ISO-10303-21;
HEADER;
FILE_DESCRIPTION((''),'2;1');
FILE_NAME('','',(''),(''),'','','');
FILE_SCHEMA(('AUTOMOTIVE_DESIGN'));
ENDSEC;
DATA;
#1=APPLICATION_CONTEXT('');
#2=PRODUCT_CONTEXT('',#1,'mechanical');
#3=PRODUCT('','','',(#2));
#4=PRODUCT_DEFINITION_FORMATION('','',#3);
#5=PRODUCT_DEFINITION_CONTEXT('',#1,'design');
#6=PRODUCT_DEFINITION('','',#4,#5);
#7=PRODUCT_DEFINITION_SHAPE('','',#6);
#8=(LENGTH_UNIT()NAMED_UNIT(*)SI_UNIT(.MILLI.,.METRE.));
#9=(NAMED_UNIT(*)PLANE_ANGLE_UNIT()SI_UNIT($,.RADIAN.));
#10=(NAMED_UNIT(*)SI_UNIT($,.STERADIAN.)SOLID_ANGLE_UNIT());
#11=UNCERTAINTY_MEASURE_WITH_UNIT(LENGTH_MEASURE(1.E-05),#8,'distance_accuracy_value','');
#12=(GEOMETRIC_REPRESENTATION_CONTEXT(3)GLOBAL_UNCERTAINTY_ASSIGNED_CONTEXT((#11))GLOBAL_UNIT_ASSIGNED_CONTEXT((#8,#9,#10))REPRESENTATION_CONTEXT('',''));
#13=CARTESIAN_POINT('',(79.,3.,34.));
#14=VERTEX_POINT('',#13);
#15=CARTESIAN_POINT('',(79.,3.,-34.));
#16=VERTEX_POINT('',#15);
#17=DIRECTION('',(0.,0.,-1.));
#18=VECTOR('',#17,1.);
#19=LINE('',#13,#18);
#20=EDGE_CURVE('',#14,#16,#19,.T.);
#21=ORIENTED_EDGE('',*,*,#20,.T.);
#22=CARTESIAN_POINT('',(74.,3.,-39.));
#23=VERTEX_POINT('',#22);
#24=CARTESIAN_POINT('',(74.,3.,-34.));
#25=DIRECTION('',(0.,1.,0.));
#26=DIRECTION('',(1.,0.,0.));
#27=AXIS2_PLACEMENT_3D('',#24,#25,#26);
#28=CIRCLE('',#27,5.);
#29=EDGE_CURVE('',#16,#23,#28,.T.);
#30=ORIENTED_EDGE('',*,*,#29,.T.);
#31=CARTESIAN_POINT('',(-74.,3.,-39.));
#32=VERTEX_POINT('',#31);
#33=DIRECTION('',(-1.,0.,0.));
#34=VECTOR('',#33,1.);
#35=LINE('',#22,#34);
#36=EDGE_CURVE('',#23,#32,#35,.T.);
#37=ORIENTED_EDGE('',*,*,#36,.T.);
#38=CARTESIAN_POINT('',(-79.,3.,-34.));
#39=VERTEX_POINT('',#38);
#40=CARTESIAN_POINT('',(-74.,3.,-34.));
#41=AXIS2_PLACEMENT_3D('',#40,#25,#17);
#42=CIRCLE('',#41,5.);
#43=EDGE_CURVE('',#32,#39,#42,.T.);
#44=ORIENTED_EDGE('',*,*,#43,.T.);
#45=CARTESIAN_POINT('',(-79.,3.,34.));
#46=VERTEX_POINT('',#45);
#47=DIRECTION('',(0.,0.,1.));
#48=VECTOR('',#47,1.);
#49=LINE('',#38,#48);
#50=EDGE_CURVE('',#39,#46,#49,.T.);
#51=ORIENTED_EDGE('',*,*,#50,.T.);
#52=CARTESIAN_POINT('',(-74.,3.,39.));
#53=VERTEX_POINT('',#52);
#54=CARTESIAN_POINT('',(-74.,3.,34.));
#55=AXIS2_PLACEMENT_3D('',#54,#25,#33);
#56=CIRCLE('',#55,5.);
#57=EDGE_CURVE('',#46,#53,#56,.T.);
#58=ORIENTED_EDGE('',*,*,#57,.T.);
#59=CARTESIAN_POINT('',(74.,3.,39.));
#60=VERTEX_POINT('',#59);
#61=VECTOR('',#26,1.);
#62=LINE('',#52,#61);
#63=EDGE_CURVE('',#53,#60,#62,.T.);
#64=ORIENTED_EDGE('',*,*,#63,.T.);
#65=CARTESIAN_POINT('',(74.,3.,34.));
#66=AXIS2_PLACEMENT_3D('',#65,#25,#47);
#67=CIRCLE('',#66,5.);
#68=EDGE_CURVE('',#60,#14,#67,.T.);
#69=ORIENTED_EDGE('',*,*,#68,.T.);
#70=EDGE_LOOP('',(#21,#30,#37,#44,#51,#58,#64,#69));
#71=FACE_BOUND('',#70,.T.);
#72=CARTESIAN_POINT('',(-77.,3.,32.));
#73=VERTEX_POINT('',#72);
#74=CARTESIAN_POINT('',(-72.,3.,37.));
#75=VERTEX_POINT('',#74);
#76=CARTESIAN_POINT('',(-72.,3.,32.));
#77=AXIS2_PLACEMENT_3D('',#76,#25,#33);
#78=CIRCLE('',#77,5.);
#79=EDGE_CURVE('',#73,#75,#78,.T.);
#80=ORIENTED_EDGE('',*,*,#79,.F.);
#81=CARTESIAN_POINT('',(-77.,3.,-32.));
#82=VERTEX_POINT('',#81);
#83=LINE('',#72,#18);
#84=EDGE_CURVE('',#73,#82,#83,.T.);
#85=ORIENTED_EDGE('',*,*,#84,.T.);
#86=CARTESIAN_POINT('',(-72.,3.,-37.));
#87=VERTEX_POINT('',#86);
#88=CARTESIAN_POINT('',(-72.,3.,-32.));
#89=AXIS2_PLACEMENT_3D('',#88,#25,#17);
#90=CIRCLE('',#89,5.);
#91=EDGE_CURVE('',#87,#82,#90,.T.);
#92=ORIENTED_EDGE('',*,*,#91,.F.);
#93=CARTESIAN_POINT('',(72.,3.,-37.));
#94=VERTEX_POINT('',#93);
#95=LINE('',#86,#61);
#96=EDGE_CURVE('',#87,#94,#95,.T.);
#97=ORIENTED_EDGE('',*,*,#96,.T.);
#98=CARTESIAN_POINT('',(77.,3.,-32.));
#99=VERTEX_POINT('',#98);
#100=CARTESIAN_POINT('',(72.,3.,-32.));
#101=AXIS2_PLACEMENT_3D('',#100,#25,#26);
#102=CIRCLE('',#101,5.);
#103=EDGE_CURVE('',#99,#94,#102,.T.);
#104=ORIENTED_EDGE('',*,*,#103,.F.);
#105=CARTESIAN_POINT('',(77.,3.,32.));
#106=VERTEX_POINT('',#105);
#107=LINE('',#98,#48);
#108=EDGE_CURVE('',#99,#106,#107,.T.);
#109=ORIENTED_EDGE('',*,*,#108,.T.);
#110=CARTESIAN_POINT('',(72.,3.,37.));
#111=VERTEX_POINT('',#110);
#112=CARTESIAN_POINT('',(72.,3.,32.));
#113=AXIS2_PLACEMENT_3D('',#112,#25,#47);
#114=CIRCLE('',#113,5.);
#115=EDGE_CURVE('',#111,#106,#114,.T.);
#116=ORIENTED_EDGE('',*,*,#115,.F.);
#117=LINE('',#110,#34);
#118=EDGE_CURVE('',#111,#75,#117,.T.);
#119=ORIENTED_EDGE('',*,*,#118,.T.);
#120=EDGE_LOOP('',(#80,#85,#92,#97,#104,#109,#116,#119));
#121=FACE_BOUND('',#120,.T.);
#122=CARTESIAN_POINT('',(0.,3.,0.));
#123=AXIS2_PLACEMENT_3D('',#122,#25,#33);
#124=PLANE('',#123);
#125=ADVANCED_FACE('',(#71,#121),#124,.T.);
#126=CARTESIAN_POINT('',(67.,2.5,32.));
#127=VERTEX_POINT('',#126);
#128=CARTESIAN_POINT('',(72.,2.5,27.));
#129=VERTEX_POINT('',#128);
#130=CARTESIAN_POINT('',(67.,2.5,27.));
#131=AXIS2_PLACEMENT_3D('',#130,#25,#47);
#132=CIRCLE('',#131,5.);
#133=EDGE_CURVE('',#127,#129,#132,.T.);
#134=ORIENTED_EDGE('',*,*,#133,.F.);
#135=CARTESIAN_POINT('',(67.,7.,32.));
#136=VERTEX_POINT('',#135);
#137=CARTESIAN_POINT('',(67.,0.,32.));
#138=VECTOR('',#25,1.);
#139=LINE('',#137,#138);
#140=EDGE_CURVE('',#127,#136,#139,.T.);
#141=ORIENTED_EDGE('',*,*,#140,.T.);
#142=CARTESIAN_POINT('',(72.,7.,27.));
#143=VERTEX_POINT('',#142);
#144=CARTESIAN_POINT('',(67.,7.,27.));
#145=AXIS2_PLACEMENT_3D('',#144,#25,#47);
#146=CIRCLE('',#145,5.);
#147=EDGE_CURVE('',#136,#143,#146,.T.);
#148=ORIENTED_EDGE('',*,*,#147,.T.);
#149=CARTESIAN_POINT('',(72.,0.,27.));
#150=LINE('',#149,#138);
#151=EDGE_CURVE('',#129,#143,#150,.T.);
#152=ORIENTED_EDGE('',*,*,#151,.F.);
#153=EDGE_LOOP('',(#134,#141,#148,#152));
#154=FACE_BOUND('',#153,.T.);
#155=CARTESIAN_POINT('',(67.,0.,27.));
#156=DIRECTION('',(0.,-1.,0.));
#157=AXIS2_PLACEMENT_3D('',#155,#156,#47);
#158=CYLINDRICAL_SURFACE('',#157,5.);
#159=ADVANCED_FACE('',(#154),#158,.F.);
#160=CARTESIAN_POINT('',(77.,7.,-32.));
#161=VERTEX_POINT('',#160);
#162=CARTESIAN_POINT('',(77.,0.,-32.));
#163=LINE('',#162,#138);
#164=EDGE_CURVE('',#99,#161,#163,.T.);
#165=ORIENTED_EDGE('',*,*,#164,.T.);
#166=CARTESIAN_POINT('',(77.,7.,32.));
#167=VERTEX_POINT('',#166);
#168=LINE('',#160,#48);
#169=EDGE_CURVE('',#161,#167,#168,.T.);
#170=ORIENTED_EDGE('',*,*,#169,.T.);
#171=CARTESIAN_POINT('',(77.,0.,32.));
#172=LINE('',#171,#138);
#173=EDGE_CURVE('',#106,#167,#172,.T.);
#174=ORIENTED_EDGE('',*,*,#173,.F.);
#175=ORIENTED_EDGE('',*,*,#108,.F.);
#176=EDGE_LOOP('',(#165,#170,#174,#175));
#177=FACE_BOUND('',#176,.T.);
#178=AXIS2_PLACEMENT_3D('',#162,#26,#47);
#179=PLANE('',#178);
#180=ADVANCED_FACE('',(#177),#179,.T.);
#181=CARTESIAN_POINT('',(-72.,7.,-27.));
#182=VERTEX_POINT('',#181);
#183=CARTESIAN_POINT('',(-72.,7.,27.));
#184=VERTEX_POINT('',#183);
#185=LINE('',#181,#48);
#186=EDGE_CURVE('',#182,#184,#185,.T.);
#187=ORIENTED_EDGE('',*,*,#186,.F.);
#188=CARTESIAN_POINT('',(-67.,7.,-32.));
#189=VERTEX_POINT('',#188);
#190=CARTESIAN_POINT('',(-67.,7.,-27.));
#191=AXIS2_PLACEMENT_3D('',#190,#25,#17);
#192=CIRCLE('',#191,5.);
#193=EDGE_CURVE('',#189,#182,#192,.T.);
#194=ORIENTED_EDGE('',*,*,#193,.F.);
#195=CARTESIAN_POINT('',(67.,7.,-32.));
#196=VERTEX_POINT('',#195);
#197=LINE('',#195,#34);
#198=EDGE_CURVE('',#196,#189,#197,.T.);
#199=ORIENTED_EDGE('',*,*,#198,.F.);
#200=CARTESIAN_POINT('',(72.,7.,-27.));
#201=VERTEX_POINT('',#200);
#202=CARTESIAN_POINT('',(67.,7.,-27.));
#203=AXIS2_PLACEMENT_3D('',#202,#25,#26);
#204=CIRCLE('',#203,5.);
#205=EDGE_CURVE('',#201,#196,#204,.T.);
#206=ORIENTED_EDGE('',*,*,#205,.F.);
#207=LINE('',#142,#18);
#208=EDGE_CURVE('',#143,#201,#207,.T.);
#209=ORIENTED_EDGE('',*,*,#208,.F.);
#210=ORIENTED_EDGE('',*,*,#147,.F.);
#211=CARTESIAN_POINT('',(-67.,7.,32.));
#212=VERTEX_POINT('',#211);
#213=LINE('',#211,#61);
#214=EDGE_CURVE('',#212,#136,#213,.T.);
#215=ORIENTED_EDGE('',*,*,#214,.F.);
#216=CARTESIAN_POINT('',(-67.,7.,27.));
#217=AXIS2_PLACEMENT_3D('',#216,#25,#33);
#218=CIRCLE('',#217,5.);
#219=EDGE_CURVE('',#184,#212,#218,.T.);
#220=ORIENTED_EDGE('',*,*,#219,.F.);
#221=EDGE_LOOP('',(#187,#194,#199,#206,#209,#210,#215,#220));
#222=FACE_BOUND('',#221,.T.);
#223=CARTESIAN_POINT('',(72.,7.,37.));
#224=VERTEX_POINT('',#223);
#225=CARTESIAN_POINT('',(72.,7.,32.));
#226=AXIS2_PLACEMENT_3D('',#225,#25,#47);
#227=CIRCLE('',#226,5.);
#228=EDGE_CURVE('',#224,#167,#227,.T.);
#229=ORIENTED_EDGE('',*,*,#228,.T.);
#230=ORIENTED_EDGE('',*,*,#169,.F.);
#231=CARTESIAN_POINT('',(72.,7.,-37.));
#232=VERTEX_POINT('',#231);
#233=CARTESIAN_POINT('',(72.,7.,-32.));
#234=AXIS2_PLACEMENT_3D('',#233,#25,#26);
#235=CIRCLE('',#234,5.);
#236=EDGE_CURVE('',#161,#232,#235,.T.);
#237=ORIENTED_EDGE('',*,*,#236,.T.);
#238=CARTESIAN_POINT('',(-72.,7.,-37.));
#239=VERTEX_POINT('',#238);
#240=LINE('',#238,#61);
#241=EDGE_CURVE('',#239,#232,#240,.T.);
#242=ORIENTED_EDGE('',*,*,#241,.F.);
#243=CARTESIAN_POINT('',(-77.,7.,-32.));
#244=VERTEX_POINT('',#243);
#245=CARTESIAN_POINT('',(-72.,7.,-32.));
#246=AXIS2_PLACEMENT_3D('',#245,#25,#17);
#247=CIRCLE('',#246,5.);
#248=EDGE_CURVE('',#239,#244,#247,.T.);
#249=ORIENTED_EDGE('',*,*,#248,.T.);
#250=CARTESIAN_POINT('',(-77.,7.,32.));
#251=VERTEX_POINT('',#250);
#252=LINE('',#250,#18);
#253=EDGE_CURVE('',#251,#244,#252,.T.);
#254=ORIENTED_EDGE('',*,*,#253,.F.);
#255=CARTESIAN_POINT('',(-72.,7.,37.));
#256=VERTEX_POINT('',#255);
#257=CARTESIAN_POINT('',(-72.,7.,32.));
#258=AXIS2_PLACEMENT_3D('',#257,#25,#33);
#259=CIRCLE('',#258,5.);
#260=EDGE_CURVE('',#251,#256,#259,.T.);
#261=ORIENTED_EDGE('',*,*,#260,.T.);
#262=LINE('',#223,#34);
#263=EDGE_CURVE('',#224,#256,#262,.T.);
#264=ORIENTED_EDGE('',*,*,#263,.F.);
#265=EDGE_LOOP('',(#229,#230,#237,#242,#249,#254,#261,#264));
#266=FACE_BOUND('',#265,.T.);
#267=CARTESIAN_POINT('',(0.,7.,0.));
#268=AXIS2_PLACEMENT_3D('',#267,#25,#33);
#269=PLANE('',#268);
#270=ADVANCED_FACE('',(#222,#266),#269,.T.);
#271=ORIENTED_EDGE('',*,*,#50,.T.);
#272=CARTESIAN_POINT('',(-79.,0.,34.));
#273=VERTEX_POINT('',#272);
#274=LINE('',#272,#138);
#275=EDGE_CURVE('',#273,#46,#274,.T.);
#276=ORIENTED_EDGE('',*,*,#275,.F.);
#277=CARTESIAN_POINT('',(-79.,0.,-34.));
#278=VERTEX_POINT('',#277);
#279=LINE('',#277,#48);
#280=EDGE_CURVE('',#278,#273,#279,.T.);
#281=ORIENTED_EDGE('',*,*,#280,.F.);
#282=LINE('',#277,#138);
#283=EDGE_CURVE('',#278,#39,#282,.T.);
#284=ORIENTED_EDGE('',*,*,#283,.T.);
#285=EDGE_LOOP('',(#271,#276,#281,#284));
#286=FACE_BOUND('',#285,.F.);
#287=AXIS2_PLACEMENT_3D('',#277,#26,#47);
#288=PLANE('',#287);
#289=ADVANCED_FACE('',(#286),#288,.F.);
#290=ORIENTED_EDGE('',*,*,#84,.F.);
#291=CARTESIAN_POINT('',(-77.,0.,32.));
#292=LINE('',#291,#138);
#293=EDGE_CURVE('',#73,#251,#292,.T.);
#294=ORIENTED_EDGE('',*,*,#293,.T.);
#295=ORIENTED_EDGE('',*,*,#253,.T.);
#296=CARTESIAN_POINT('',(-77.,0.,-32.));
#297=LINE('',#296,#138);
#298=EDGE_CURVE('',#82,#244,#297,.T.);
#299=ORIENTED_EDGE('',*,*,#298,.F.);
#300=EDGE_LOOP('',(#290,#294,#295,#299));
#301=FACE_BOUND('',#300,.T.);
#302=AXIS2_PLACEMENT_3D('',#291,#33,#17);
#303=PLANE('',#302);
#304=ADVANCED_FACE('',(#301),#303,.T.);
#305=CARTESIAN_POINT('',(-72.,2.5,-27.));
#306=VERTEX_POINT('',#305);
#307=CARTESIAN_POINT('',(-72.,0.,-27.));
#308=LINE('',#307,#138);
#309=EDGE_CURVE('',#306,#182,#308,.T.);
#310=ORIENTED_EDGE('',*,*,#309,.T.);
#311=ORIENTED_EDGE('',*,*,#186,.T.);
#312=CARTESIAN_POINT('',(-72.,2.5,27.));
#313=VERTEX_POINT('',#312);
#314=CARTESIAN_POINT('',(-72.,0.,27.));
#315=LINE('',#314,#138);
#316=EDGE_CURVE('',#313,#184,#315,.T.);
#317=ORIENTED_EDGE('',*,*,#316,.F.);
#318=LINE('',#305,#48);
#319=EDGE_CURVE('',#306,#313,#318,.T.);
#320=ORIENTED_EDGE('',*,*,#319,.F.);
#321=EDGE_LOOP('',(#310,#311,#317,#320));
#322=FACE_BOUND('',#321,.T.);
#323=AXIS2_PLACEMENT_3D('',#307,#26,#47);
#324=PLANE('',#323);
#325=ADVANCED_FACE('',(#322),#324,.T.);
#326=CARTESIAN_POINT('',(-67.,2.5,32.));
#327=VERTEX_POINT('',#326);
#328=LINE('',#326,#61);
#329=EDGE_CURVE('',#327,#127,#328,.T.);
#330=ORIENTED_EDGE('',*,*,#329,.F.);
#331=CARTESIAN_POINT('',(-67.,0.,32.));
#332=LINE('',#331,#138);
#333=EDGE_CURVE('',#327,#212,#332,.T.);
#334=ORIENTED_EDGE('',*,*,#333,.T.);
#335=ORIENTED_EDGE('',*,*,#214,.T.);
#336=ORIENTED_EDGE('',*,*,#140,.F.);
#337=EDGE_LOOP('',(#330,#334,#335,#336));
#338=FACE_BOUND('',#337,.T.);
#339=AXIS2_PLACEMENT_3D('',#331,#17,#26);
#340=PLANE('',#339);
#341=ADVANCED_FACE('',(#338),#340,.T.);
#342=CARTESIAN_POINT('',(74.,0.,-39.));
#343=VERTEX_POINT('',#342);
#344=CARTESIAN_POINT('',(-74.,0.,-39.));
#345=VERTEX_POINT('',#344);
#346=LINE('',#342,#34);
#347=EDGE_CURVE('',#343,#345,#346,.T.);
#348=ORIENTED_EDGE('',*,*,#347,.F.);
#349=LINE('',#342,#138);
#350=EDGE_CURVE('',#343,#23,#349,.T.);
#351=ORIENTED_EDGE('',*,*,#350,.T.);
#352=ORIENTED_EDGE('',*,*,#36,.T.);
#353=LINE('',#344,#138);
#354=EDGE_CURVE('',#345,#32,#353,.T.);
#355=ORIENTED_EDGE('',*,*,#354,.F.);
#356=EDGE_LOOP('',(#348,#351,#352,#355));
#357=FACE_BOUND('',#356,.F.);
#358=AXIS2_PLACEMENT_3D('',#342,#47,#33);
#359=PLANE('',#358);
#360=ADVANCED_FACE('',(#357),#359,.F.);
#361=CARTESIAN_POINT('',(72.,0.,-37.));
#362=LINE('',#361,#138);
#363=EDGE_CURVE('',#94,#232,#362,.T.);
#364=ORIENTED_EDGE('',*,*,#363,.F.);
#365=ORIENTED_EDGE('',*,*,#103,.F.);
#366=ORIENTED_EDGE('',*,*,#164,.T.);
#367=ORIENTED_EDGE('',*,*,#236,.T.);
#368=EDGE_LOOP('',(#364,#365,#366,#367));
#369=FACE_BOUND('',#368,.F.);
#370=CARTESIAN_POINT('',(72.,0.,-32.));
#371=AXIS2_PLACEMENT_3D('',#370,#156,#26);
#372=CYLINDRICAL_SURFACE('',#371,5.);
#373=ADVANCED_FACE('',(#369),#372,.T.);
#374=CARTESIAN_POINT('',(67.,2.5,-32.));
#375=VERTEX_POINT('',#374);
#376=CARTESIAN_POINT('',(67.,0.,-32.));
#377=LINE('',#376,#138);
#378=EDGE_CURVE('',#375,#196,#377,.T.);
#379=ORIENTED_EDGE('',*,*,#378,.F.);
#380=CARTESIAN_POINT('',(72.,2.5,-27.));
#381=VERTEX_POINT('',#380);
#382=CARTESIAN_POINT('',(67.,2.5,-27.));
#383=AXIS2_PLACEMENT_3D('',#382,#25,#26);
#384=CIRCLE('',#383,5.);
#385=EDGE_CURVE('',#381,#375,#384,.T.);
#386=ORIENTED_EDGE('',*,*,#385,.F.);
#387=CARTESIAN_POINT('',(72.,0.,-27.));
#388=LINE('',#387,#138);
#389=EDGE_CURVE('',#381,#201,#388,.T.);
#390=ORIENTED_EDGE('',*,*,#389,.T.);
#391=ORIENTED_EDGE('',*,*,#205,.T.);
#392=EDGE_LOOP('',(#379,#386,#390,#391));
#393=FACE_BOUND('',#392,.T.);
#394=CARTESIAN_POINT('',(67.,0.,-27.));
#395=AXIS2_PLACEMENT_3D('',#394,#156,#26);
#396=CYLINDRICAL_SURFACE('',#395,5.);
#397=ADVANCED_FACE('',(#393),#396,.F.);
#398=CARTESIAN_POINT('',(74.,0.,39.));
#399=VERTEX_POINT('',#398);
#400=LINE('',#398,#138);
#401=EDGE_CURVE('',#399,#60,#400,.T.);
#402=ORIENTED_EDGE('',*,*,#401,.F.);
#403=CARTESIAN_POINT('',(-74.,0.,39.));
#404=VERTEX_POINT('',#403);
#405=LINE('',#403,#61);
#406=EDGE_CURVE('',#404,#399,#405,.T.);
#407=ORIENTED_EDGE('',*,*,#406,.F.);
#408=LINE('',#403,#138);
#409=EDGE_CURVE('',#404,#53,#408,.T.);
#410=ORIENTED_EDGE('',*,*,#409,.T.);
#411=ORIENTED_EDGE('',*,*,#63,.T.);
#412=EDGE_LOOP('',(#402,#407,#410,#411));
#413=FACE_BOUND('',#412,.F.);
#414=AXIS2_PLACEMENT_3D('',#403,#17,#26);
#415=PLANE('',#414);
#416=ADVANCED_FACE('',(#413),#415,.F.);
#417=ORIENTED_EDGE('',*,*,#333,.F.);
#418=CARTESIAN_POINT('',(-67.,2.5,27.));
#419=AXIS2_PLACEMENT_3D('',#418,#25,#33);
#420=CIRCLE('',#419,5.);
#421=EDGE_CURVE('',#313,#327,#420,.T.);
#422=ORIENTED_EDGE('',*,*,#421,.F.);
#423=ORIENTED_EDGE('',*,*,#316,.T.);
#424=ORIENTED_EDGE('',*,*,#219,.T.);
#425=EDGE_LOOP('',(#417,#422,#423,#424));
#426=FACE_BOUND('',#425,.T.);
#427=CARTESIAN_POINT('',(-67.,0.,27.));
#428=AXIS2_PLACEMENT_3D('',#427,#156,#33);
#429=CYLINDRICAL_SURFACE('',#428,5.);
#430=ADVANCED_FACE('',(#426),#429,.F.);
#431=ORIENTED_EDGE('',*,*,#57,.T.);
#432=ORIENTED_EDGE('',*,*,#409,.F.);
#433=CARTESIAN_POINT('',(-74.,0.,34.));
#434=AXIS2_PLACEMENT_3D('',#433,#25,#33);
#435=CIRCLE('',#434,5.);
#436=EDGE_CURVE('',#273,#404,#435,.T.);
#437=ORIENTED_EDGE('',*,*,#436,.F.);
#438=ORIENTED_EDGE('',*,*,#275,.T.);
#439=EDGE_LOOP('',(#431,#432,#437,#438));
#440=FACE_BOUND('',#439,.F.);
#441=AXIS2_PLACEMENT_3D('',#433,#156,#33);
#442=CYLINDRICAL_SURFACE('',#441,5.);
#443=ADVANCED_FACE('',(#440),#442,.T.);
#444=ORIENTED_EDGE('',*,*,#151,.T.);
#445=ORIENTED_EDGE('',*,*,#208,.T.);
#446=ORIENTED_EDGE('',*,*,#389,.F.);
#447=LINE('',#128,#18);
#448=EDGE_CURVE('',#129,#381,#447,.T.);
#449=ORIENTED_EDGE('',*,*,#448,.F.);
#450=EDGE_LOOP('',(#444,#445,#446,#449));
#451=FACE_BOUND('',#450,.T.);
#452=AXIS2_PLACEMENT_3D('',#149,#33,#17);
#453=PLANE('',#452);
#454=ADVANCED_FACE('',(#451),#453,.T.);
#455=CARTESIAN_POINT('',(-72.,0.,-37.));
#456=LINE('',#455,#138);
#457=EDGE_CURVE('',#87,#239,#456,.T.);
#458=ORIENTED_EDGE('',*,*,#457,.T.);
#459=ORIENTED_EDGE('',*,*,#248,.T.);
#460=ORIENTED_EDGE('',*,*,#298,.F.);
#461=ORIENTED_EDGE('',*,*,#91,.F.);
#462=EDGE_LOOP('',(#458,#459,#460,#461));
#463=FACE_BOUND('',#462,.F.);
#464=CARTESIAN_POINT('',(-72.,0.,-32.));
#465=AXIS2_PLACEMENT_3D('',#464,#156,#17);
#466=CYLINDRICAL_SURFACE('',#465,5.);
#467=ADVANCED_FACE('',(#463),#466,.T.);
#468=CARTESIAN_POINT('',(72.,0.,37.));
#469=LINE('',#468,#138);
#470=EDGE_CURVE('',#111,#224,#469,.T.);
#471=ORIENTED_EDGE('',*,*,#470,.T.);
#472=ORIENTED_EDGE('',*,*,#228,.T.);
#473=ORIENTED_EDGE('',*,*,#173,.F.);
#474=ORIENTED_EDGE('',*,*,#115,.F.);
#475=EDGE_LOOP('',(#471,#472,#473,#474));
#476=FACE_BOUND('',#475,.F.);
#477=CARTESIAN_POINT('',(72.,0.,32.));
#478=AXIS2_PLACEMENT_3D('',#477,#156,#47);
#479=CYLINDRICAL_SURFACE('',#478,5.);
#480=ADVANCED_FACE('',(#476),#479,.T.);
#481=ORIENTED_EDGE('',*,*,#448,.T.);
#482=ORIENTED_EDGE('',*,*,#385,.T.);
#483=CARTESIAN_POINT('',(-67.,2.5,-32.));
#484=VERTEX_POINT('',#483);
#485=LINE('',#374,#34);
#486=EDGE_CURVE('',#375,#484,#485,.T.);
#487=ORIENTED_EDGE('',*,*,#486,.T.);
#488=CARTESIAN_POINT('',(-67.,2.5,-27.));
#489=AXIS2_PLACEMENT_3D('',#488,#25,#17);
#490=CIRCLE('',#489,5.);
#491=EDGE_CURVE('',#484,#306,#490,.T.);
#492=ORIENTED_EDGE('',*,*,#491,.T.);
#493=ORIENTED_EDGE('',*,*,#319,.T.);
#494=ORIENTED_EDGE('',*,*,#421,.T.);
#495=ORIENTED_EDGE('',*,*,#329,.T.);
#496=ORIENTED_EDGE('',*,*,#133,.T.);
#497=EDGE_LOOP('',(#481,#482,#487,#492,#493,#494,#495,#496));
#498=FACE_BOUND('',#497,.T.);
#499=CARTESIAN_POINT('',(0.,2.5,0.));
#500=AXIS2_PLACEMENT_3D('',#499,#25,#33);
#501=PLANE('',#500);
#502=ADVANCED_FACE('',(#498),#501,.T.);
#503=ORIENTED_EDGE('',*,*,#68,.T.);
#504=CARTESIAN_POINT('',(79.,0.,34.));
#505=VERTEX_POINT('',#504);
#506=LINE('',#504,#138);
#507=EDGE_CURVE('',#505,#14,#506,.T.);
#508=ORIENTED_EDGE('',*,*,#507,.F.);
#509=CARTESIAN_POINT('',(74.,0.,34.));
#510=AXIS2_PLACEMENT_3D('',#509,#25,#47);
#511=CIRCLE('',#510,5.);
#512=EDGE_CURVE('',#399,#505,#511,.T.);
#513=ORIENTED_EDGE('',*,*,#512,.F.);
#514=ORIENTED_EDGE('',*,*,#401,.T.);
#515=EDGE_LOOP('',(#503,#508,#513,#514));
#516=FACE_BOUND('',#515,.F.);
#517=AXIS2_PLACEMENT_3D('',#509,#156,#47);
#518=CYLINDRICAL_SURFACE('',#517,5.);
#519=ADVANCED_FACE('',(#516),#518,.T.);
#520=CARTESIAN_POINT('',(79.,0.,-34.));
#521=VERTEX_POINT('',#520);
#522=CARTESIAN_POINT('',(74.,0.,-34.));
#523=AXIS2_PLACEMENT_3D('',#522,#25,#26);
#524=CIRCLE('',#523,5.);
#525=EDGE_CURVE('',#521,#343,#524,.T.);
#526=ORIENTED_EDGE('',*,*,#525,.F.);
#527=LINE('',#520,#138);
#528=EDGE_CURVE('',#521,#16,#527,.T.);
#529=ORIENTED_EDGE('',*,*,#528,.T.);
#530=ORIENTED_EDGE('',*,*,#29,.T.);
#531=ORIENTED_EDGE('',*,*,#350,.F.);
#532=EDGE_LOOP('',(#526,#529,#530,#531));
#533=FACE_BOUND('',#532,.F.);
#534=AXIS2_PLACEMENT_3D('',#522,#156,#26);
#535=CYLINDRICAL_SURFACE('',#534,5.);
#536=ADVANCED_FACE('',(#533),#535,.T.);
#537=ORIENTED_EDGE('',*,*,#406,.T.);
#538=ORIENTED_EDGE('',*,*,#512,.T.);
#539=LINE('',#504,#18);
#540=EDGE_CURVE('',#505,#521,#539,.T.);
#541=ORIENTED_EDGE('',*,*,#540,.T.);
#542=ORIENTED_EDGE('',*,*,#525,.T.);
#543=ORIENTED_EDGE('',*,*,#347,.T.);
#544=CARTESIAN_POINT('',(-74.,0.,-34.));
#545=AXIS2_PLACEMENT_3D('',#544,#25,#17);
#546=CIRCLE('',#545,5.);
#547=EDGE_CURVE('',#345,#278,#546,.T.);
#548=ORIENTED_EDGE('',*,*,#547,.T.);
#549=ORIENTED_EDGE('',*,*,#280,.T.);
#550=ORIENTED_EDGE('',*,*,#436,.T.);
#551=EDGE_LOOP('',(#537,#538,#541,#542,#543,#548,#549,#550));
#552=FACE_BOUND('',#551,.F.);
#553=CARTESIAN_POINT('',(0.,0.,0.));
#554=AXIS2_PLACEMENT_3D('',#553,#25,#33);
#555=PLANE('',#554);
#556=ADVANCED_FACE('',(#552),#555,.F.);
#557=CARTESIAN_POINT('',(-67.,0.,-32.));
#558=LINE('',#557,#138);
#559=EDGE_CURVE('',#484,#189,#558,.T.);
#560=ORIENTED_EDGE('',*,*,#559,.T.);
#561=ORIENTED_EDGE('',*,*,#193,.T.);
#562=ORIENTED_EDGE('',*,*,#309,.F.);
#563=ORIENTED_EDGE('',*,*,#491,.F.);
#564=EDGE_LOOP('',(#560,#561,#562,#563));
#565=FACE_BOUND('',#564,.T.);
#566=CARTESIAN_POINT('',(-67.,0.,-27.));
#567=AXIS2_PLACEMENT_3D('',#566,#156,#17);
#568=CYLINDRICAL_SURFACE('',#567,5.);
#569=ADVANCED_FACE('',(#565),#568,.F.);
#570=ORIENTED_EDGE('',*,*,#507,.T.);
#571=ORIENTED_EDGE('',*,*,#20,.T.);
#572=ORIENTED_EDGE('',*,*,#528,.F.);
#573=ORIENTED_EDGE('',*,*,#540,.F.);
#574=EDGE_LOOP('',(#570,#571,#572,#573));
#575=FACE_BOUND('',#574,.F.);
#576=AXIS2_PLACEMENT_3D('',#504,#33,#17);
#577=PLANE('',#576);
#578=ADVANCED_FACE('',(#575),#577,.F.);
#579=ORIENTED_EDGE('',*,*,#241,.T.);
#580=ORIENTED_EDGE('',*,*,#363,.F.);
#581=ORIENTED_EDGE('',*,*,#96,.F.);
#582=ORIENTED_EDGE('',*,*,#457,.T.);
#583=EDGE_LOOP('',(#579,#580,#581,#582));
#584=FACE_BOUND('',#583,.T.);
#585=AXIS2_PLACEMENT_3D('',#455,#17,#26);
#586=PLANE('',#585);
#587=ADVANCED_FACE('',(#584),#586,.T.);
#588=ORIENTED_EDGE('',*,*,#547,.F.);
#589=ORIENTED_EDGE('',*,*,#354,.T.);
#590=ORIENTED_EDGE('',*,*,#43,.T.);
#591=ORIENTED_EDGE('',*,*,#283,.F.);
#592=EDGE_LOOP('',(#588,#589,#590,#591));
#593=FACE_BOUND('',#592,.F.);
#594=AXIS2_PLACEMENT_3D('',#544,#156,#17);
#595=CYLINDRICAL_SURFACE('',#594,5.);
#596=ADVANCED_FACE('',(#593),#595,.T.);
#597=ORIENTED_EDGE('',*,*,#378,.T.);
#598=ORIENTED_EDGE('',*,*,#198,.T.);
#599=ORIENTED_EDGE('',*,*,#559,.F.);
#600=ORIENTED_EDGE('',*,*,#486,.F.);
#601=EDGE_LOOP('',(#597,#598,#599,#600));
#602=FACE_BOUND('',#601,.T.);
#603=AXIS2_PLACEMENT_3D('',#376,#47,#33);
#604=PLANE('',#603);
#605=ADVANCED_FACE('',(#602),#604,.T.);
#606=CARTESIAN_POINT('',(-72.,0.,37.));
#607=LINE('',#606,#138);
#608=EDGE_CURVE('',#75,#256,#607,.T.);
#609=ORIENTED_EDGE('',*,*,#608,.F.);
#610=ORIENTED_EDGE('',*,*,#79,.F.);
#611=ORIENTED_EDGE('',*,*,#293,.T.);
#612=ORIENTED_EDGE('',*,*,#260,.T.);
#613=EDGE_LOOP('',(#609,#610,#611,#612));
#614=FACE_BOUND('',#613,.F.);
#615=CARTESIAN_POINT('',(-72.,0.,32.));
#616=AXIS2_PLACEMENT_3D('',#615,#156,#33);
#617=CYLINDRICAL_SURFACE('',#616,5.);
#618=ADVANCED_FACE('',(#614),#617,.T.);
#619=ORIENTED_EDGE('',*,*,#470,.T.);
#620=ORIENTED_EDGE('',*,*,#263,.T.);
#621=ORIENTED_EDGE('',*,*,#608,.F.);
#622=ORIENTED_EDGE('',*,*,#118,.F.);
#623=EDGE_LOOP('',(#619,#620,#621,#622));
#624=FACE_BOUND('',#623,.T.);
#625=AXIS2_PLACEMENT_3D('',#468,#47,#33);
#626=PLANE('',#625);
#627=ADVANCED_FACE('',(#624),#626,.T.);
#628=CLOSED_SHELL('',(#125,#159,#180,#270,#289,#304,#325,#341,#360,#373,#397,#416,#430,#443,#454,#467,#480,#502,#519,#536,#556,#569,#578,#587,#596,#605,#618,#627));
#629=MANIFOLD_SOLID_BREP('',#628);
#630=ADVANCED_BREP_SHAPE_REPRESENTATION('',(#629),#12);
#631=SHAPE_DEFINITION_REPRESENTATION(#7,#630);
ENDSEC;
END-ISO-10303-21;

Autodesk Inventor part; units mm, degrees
ref_plane "YZ Plane" through (0, 0, 0) normal (1, 0, 0) x (0, 1, 0)
ref_plane "XZ Plane" through (0, 0, 0) normal (0, 1, 0) x (-1, 0, 0)
ref_plane "XY Plane" through (0, 0, 0) normal (0, 0, 1) x (1, 0, 0)
sketch "Sketch1" plane through (0, 0, 0) normal (0, 1, 0) x (-1, 0, 0)
  line L0 (-70, 35) -> (70, 35)
  line L1 (75, 30) -> (75, -30)
  line L2 (70, -35) -> (-70, -35)
  line L3 (-75, -30) -> (-75, 30)
  line L4 (-75, 35) -> (75, -35) construction
  line L5 (75, 35) -> (-75, -35) construction
  arc A0 (75, 30) -> (70, 35) centre (70, 30) ccw
  arc A1 (70, -35) -> (75, -30) centre (70, -30) ccw
  arc A2 (-70, 35) -> (-75, 30) centre (-70, 30) ccw
  arc A3 (-75, -30) -> (-70, -35) centre (-70, -30) ccw
  line L6 (-72, 37) -> (72, 37)
  line L7 (77, 32) -> (77, -32)
  line L8 (72, -37) -> (-72, -37)
  line L9 (-77, -32) -> (-77, 32)
  line L10 (-77, 37) -> (77, -37) construction
  line L11 (77, 37) -> (-77, -37) construction
  arc A4 (77, 32) -> (72, 37) centre (72, 32) ccw
  arc A5 (72, -37) -> (77, -32) centre (72, -32) ccw
  arc A6 (-77, -32) -> (-72, -37) centre (-72, -32) ccw
  arc A7 (-72, 37) -> (-77, 32) centre (-72, 32) ccw
  line L12 (74, 39) -> (-74, 39)
  line L13 (-79, 34) -> (-79, -34)
  line L14 (-74, -39) -> (74, -39)
  line L15 (79, -34) -> (79, 34)
  line L16 (79, 39) -> (-79, -39) construction
  line L17 (-79, 39) -> (79, -39) construction
  arc A8 (79, 34) -> (74, 39) centre (74, 34) ccw
  arc A9 (-74, 39) -> (-79, 34) centre (-74, 34) ccw
  arc A10 (-79, -34) -> (-74, -39) centre (-74, -34) ccw
  arc A11 (74, -39) -> (79, -34) centre (74, -34) ccw
  line L18 (-22.75, 23.25) -> (-35.25, 23.25) construction
  line L19 (-35.25, 23.25) -> (-35.25, 19) construction
  line L20 (-35.25, 10.75) -> (-22.75, 10.75) construction
  line L21 (-22.75, 10.75) -> (-22.75, 15) construction
  line L22 (56.9183, 17) -> (21.35, 17) construction
  line L23 (40.8, -24) -> (40.8, -20.1) construction
  line L24 (-55.8, 24) -> (-55.8, 12) construction
  line L25 (-20.25, 15.5) -> (-22.25, 15.5) construction
  line L26 (-22.25, 18.5) -> (-20.25, 18.5) construction
  line L27 (-35.75, 15.5) -> (-37.75, 15.5) construction
  line L28 (-37.75, 18.5) -> (-35.75, 18.5) construction
  line L29 (-40.55, 18.5) -> (-53.5, 18.5) construction
  line L30 (-40.55, 15.5) -> (-53.5, 15.5) construction
  line L31 (-60, 8.5) -> (45, 8.5) construction
  line L32 (38.5, 20.5) -> (37, 20.5) construction
  line L33 (37, 13.5) -> (38.5, 13.5) construction
  line L34 (-60, 5) -> (-60, -25) construction
  line L35 (21.35, -8.5) -> (45, -8.5) construction
  line L36 (-29, 20.0147) -> (-29, -25.5) construction
  line L37 (31.2062, 0) -> (-4.2501, 0) construction
  line L38 (-35.25, 6.25) -> (-35.25, 2) construction
  line L39 (-22.75, 6.25) -> (-35.25, 6.25) construction
  line L40 (-22.75, -6.25) -> (-22.75, -2) construction
  line L41 (-35.25, -6.25) -> (-22.75, -6.25) construction
  line L42 (-22.25, 1.5) -> (-20.25, 1.5) construction
  line L43 (-20.25, -1.5) -> (-22.25, -1.5) construction
  line L44 (38.5, 3.5) -> (37, 3.5) construction
  line L45 (37, -3.5) -> (38.5, -3.5) construction
  line L46 (-22.75, -10.75) -> (-35.25, -10.75) construction
  line L47 (-22.75, -23.25) -> (-22.75, -19) construction
  line L48 (-35.25, -23.25) -> (-22.75, -23.25) construction
  line L49 (56.3008, -17) -> (21.35, -17) construction
  line L50 (38.5, -13.5) -> (37, -13.5) construction
  line L51 (37, -20.5) -> (38.5, -20.5) construction
  line L52 (-20.25, -18.5) -> (-22.25, -18.5) construction
  line L53 (44.5, 5.5) -> (43.5, 5.5) construction
  line L54 (41.3, 11.5) -> (43.5, 11.5) construction
  line L55 (-37.75, -15.5) -> (-35.75, -15.5) construction
  line L56 (-35.75, -18.5) -> (-37.75, -18.5) construction
  line L57 (-40.55, -18.5) -> (-53.5, -18.5) construction
  line L58 (-37.75, 1.5) -> (-35.75, 1.5) construction
  line L59 (-35.75, -1.5) -> (-37.75, -1.5) construction
  line L60 (-40.55, -1.5) -> (-53.5, -1.5) construction
  line L61 (-58.5, 5.5) -> (-59.5, 5.5) construction
  line L62 (-59.5, 11.5) -> (-58.5, 11.5) construction
  line L63 (38.5, 5.5) -> (37, 5.5) construction
  line L64 (37, 5.5) -> (37, 11.5) construction
  line L65 (37, 11.5) -> (38.5, 11.5) construction
  line L66 (-53.5, 5.5) -> (-52.5, 5.5) construction
  line L67 (-52.5, 5.5) -> (-52.5, 11.5) construction
  line L68 (-52.5, 11.5) -> (-53.5, 11.5) construction
  line L69 (-54, 24) -> (-54, 19) construction
  line L70 (-54, 5) -> (-54, 2) construction
  arc A12 (-12.95, 13.5) -> (-12.95, 3.5) centre (-12.95, 8.5) ccw construction
  arc A13 (31, 3.5) -> (31, 13.5) centre (31, 8.5) ccw construction
  arc A14 (-12.95, -3.5) -> (-12.95, -13.5) centre (-12.95, -8.5) ccw construction
  arc A15 (31, -13.5) -> (31, -3.5) centre (31, -8.5) ccw construction
  line L71 (-12.95, 13.5) -> (31, 13.5) construction
  line L72 (-12.95, 3.5) -> (31, 3.5) construction
  line L73 (-12.95, -3.5) -> (31, -3.5) construction
  line L74 (-12.95, -13.5) -> (31, -13.5) construction
  arc A16 (-45.05, -13.5) -> (-45.05, -3.5) centre (-45.05, -8.5) ccw construction
  line L75 (43.5, -24) -> (43.5, -19.6) construction
  line L76 (-58.5, 24) -> (-58.5, 11.5) construction
  arc A17 (-46, -3.5) -> (-46, -13.5) centre (-46, -8.5) ccw construction
  arc A18 (-46, 13.5) -> (-46, 3.5) centre (-46, 8.5) ccw construction
  line L77 (-45.05, -13.5) -> (-46, -13.5) construction
  line L78 (-46, -3.5) -> (-45.05, -3.5) construction
  line L79 (-46, 3.5) -> (-45.05, 3.5) construction
  line L80 (-45.05, 13.5) -> (-46, 13.5) construction
  arc A19 (-45.05, 3.5) -> (-45.05, 13.5) centre (-45.05, 8.5) ccw construction
  line L81 (29.8763, -15.5) -> (-17.45, -15.5) construction
  line L82 (29.8763, -18.5) -> (-17.45, -18.5) construction
  line L83 (29.8763, -1.5) -> (-17.45, -1.5) construction
  line L84 (29.8763, 1.5) -> (-17.45, 1.5) construction
  line L85 (29.8763, 15.5) -> (-17.45, 15.5) construction
  line L86 (29.8763, 18.5) -> (-17.45, 18.5) construction
  arc A20 (32, -14.4) -> (29.8763, -15.5) centre (32, -17) ccw construction
  arc A21 (29.8763, -18.5) -> (32, -19.6) centre (32, -17) ccw construction
  arc A22 (32, 2.6) -> (29.8763, 1.5) centre (32, 0) ccw construction
  arc A23 (29.8763, -1.5) -> (32, -2.6) centre (32, 0) ccw construction
  arc A24 (32, 19.6) -> (29.8763, 18.5) centre (32, 17) ccw construction
  arc A25 (29.8763, 15.5) -> (32, 14.4) centre (32, 17) ccw construction
  arc A26 (34.4725, -25.0625) -> (31, -22) centre (31, -25.5) ccw construction
  arc A27 (-12.95, -22) -> (-16.4225, -25.0625) centre (-12.95, -25.5) ccw construction
  arc A28 (35.7697, -24) -> (31, -20.5) centre (31, -25.5) ccw construction
  line L87 (31, -20.5) -> (-12.95, -20.5) construction
  line L88 (34.9686, -25.5) -> (44.5, -25.5) construction
  line L89 (31, -22) -> (-12.95, -22) construction
  arc A29 (-12.95, -20.5) -> (-17.7197, -24) centre (-12.95, -25.5) ccw construction
  arc A30 (-17.6941, 23.9209) -> (-12.95, 20.5) centre (-12.95, 25.5) ccw construction
  arc A31 (-16.4225, 25.0625) -> (-12.95, 22) centre (-12.95, 25.5) ccw construction
  line L90 (31, 22) -> (-12.95, 22) construction
  line L91 (31, 20.5) -> (-12.95, 20.5) construction
  line L92 (35.7697, 24) -> (40.8, 24) construction
  line L93 (44.5, 25.5) -> (34.9686, 25.5) construction
  arc A32 (31, 22) -> (34.4725, 25.0625) centre (31, 25.5) ccw construction
  arc A33 (31, 20.5) -> (35.7697, 24) centre (31, 25.5) ccw construction
  arc A34 (-41.5775, -25.0625) -> (-45.05, -22) centre (-45.05, -25.5) ccw construction
  arc A35 (-46, -22) -> (-49.4725, -25.0625) centre (-46, -25.5) ccw construction
  line L94 (-45.05, -20.5) -> (-46, -20.5) construction
  line L95 (-45.05, -22) -> (-46, -22) construction
  arc A36 (-46, -20.5) -> (-50.7697, -24) centre (-46, -25.5) ccw construction
  arc A37 (-40.2803, -24) -> (-45.05, -20.5) centre (-45.05, -25.5) ccw construction
  line L96 (-17.7197, -24) -> (-40.2803, -24) construction
  line L97 (-50.7697, -24) -> (-58.5, -24) construction
  line L98 (-59.5, -25.5) -> (-49.9686, -25.5) construction
  line L99 (-17.2197, -25.5) -> (-16.9186, -25.5) construction
  line L100 (-45.05, 20.5) -> (-46, 20.5) construction
  line L101 (-45.05, 22) -> (-46, 22) construction
  arc A38 (-49.4725, 25.0625) -> (-46, 22) centre (-46, 25.5) ccw construction
  arc A39 (-45.05, 22) -> (-41.5775, 25.0625) centre (-45.05, 25.5) ccw construction
  arc A40 (-50.7697, 24) -> (-46, 20.5) centre (-46, 25.5) ccw construction
  arc A41 (-45.05, 20.5) -> (-40.336, 23.8333) centre (-45.05, 25.5) ccw construction
  line L102 (-16.9186, 25.5) -> (-17.2197, 25.5) construction
  line L103 (-49.9686, 25.5) -> (-59.5, 25.5) construction
  line L104 (-58.5, 24) -> (-50.7697, 24) construction
  line L105 (-40.3074, 24) -> (-17.7197, 24) construction
  line L106 (-17.7197, -24) -> (-17.7197, -25) construction
  line L107 (-40.2803, -24) -> (-40.2803, -25) construction
  line L108 (-40.3074, 24) -> (-40.3074, 25) construction
  line L109 (-17.7197, 24.0788) -> (-17.7197, 25) construction
  line L110 (43.5, 11.5) -> (44.5, 11.5) construction
  line L111 (43.5, 5.5) -> (41.3, 5.5) construction
  line L112 (-56.3, 11.5) -> (-58.5, 11.5) construction
  line L113 (-56.3, 5.5) -> (-58.5, 5.5) construction
  line L114 (-17.95, -21) -> (-19.75, -21) construction
  line L115 (-19.75, -13) -> (-17.95, -13) construction
  line L116 (-17.95, -4) -> (-19.75, -4) construction
  line L117 (-19.75, 4) -> (-17.95, 4) construction
  line L118 (-17.95, 13) -> (-19.75, 13) construction
  line L119 (-19.75, 21) -> (-17.95, 21) construction
  line L120 (-38.25, -21) -> (-40.05, -21) construction
  line L121 (-40.05, -13) -> (-38.25, -13) construction
  line L122 (-38.25, -4) -> (-40.05, -4) construction
  line L123 (-40.05, 4) -> (-38.25, 4) construction
  line L124 (-38.25, 13) -> (-40.05, 13) construction
  line L125 (-40.05, 21) -> (-38.25, 21) construction
  line L126 (-17.95, -13) -> (-17.95, -15) construction
  line L127 (-17.95, -19) -> (-17.95, -21) construction
  line L128 (-19.75, -21) -> (-19.75, -19) construction
  line L129 (-17.95, 4) -> (-17.95, 2) construction
  line L130 (-17.95, -2) -> (-17.95, -4) construction
  line L131 (-19.75, -4) -> (-19.75, -2) construction
  line L132 (-19.75, 2) -> (-19.75, 4) construction
  line L133 (-17.95, 21) -> (-17.95, 19) construction
  line L134 (-17.95, 15) -> (-17.95, 13) construction
  line L135 (-19.75, 13) -> (-19.75, 15) construction
  line L136 (-19.75, 19) -> (-19.75, 21) construction
  line L137 (-38.25, -13) -> (-38.25, -15) construction
  line L138 (-38.25, -19) -> (-38.25, -21) construction
  line L139 (-40.05, -21) -> (-40.05, -19) construction
  line L140 (-40.05, -15) -> (-40.05, -13) construction
  line L141 (-38.25, 4) -> (-38.25, 2) construction
  line L142 (-38.25, -2) -> (-38.25, -4) construction
  line L143 (-40.05, -4) -> (-40.05, -2) construction
  line L144 (-40.05, 2) -> (-40.05, 4) construction
  line L145 (-38.25, 21) -> (-38.25, 19) construction
  line L146 (-38.25, 15) -> (-38.25, 13) construction
  line L147 (-40.05, 13) -> (-40.05, 15) construction
  line L148 (-40.05, 19) -> (-40.05, 21) construction
  line L149 (38.5, -11.5) -> (37, -11.5) construction
  line L150 (37, -11.5) -> (37, -5.5) construction
  line L151 (37, -5.5) -> (38.5, -5.5) construction
  line L152 (39, -21) -> (39, -24) construction
  arc A42 (-19.75, -19) -> (-20.25, -18.5) centre (-20.25, -19) ccw construction
  arc A43 (-17.45, -18.5) -> (-17.95, -19) centre (-17.45, -19) ccw construction
  arc A44 (-19.75, -2) -> (-20.25, -1.5) centre (-20.25, -2) ccw construction
  arc A45 (-17.45, -1.5) -> (-17.95, -2) centre (-17.45, -2) ccw construction
  arc A46 (-17.95, 2) -> (-17.45, 1.5) centre (-17.45, 2) ccw construction
  arc A47 (-20.25, 1.5) -> (-19.75, 2) centre (-20.25, 2) ccw construction
  arc A48 (-19.75, 15) -> (-20.25, 15.5) centre (-20.25, 15) ccw construction
  arc A49 (-17.45, 15.5) -> (-17.95, 15) centre (-17.45, 15) ccw construction
  arc A50 (-17.95, 19) -> (-17.45, 18.5) centre (-17.45, 19) ccw construction
  arc A51 (-20.25, 18.5) -> (-19.75, 19) centre (-20.25, 19) ccw construction
  arc A52 (-38.25, 19) -> (-37.75, 18.5) centre (-37.75, 19) ccw construction
  arc A53 (-40.55, 18.5) -> (-40.05, 19) centre (-40.55, 19) ccw construction
  arc A54 (-40.05, 15) -> (-40.55, 15.5) centre (-40.55, 15) ccw construction
  arc A55 (-37.75, 15.5) -> (-38.25, 15) centre (-37.75, 15) ccw construction
  arc A56 (-38.25, 2) -> (-37.75, 1.5) centre (-37.75, 2) ccw construction
  arc A57 (-40.55, 1.5) -> (-40.05, 2) centre (-40.55, 2) ccw construction
  arc A58 (-40.05, -2) -> (-40.55, -1.5) centre (-40.55, -2) ccw construction
  arc A59 (-37.75, -1.5) -> (-38.25, -2) centre (-37.75, -2) ccw construction
  arc A60 (-38.25, -15) -> (-37.75, -15.5) centre (-37.75, -15) ccw construction
  arc A61 (-40.55, -15.5) -> (-40.05, -15) centre (-40.55, -15) ccw construction
  arc A62 (-37.75, -18.5) -> (-38.25, -19) centre (-37.75, -19) ccw construction
  arc A63 (-40.05, -19) -> (-40.55, -18.5) centre (-40.55, -19) ccw construction
  line L153 (36.5, -19.6) -> (32, -19.6) construction
  line L154 (37, -13.5) -> (37, -13.9) construction
  line L155 (32, -14.4) -> (36.5, -14.4) construction
  line L156 (36.5, -2.6) -> (32, -2.6) construction
  line L157 (37, 3.5) -> (37, 3.1) construction
  line L158 (37, -3.1) -> (37, -3.5) construction
  line L159 (32, 2.6) -> (36.5, 2.6) construction
  line L160 (36.5, 14.4) -> (32, 14.4) construction
  line L161 (37, 20.5) -> (37, 20.1) construction
  line L162 (37, 13.9) -> (37, 13.5) construction
  line L163 (32, 19.6) -> (36.5, 19.6) construction
  arc A64 (36.5, -14.4) -> (37, -13.9) centre (36.5, -13.9) ccw construction
  arc A65 (39, -12) -> (38.5, -11.5) centre (38.5, -12) ccw construction
  arc A66 (38.5, -5.5) -> (39, -5) centre (38.5, -5) ccw construction
  arc A67 (39, 5) -> (38.5, 5.5) centre (38.5, 5) ccw construction
  arc A68 (38.5, 11.5) -> (39, 12) centre (38.5, 12) ccw construction
  arc A69 (37, -3.1) -> (36.5, -2.6) centre (36.5, -3.1) ccw construction
  arc A70 (36.5, 2.6) -> (37, 3.1) centre (36.5, 3.1) ccw construction
  arc A71 (37, 13.9) -> (36.5, 14.4) centre (36.5, 13.9) ccw construction
  arc A72 (36.5, 19.6) -> (37, 20.1) centre (36.5, 20.1) ccw construction
  line L164 (43.5, -2.6) -> (43.5, 2.6) construction
  line L165 (43.5, -2.6) -> (41.3, -2.6) construction
  line L166 (37, -20.5) -> (37, -20.1) construction
  arc A73 (37, -20.1) -> (36.5, -19.6) centre (36.5, -20.1) ccw construction
  line L167 (39, -13) -> (39, -12) construction
  line L168 (39, 4) -> (39, 5) construction
  line L169 (39, 21) -> (39, 24) construction
  line L170 (43.5, -19.6) -> (43.5, -14.4) construction
  line L171 (43.5, -19.6) -> (41.3, -19.6) construction
  line L172 (43.5, -24) -> (40.8, -24) construction
  line L173 (40.8, -24) -> (39, -24) construction
  line L174 (39, -24) -> (35.7697, -24) construction
  line L175 (41.3, -14.4) -> (43.5, -14.4) construction
  line L176 (43.5, -14.4) -> (43.5, -2.6) construction
  line L177 (40.8, -13.9) -> (40.8, -3.1) construction
  line L178 (39, -4) -> (39, -5) construction
  line L179 (43.5, 2.6) -> (43.5, 5.5) construction
  line L180 (41.3, 2.6) -> (43.5, 2.6) construction
  line L181 (40.8, 3.1) -> (40.8, 5) construction
  line L182 (43.5, 14.4) -> (43.5, 19.6) construction
  line L183 (43.5, 14.4) -> (41.3, 14.4) construction
  line L184 (45, -25) -> (45, 5) construction
  line L185 (43.5, 19.6) -> (43.5, 24) construction
  line L186 (40.8, 20.1) -> (40.8, 24) construction
  line L187 (41.3, 19.6) -> (43.5, 19.6) construction
  line L188 (43.5, 11.5) -> (43.5, 14.4) construction
  line L189 (40.8, 24) -> (43.5, 24) construction
  line L190 (40.8, 12) -> (40.8, 13.9) construction
  line L191 (39, 13) -> (39, 12) construction
  arc A74 (38.5, -13.5) -> (39, -13) centre (38.5, -13) ccw construction
  arc A75 (39, -4) -> (38.5, -3.5) centre (38.5, -4) ccw construction
  arc A76 (38.5, 3.5) -> (39, 4) centre (38.5, 4) ccw construction
  arc A77 (39, 13) -> (38.5, 13.5) centre (38.5, 13) ccw construction
  arc A78 (38.5, 20.5) -> (39, 21) centre (38.5, 21) ccw construction
  arc A79 (41.3, -19.6) -> (40.8, -20.1) centre (41.3, -20.1) ccw construction
  arc A80 (40.8, -13.9) -> (41.3, -14.4) centre (41.3, -13.9) ccw construction
  arc A81 (41.3, -2.6) -> (40.8, -3.1) centre (41.3, -3.1) ccw construction
  arc A82 (40.8, 3.1) -> (41.3, 2.6) centre (41.3, 3.1) ccw construction
  arc A83 (41.3, 14.4) -> (40.8, 13.9) centre (41.3, 13.9) ccw construction
  arc A84 (40.8, 20.1) -> (41.3, 19.6) centre (41.3, 20.1) ccw construction
  line L192 (40.8, 5.5) -> (40.8, 11.5) construction
  line L193 (-54, 15) -> (-54, 12) construction
  line L194 (-53.5, 1.5) -> (-40.55, 1.5) construction
  line L195 (-54, -2) -> (-54, -15) construction
  line L196 (-54, -19) -> (-54, -24) construction
  line L197 (-53.5, -15.5) -> (-40.55, -15.5) construction
  line L198 (-58.5, 5.5) -> (-58.5, -24) construction
  arc A85 (-54, 19) -> (-53.5, 18.5) centre (-53.5, 19) ccw construction
  arc A86 (-53.5, 15.5) -> (-54, 15) centre (-53.5, 15) ccw construction
  arc A87 (-54, 12) -> (-53.5, 11.5) centre (-53.5, 12) ccw construction
  arc A88 (-53.5, 5.5) -> (-54, 5) centre (-53.5, 5) ccw construction
  arc A89 (-54, 2) -> (-53.5, 1.5) centre (-53.5, 2) ccw construction
  arc A90 (-53.5, -1.5) -> (-54, -2) centre (-53.5, -2) ccw construction
  arc A91 (-54, -15) -> (-53.5, -15.5) centre (-53.5, -15) ccw construction
  arc A92 (-53.5, -18.5) -> (-54, -19) centre (-53.5, -19) ccw construction
  arc A93 (39, -21) -> (38.5, -20.5) centre (38.5, -21) ccw construction
  arc A94 (41.3, 5.5) -> (40.8, 5) centre (41.3, 5) ccw construction
  arc A95 (40.8, 12) -> (41.3, 11.5) centre (41.3, 12) ccw construction
  line L199 (40.8, 5.5) -> (41.3, 5.5) construction
  line L200 (40.8, 11.5) -> (41.3, 11.5) construction
  arc A96 (45, 5) -> (44.5, 5.5) centre (44.5, 5) ccw construction
  line L201 (45, 25) -> (45, 12) construction
  arc A97 (44.5, 11.5) -> (45, 12) centre (44.5, 12) ccw construction
  line L202 (45, 5) -> (45, 12) construction
  arc A98 (-59.5, 5.5) -> (-60, 5) centre (-59.5, 5) ccw construction
  line L203 (-60, 12) -> (-60, 25) construction
  arc A99 (-60, 12) -> (-59.5, 11.5) centre (-59.5, 12) ccw construction
  line L204 (-60, 5) -> (-60, 12) construction
  line L205 (-55.8, -24) -> (-55.8, 5) construction
  arc A100 (-56.3, 11.5) -> (-55.8, 12) centre (-56.3, 12) ccw construction
  arc A101 (-55.8, 5) -> (-56.3, 5.5) centre (-56.3, 5) ccw construction
  line L206 (-55.8, 5.5) -> (-55.8, 11.5) construction
  line L207 (-56.3, 11.5) -> (-55.8, 11.5) construction
  line L208 (-56.3, 5.5) -> (-55.8, 5.5) construction
  arc A102 (44.5, -25.5) -> (45, -25) centre (44.5, -25) ccw construction
  arc A103 (34.4725, -25.0625) -> (34.9686, -25.5) centre (34.9686, -25) ccw construction
  arc A104 (-16.9186, -25.5) -> (-16.4225, -25.0625) centre (-16.9186, -25) ccw construction
  arc A105 (-41.5775, -25.0625) -> (-41.0814, -25.5) centre (-41.0814, -25) ccw construction
  arc A106 (-49.9686, -25.5) -> (-49.4725, -25.0625) centre (-49.9686, -25) ccw construction
  arc A107 (-60, -25) -> (-59.5, -25.5) centre (-59.5, -25) ccw construction
  arc A108 (-59.5, 25.5) -> (-60, 25) centre (-59.5, 25) ccw construction
  arc A109 (-49.4725, 25.0625) -> (-49.9686, 25.5) centre (-49.9686, 25) ccw construction
  arc A110 (-41.0814, 25.5) -> (-41.5775, 25.0625) centre (-41.0814, 25) ccw construction
  arc A111 (-16.4225, 25.0625) -> (-16.9186, 25.5) centre (-16.9186, 25) ccw construction
  arc A112 (34.9686, 25.5) -> (34.4725, 25.0625) centre (34.9686, 25) ccw construction
  arc A113 (45, 25) -> (44.5, 25.5) centre (44.5, 25) ccw construction
  line L209 (-22.75, -19) -> (-22.75, -15) construction
  line L210 (-22.75, -15) -> (-22.75, -10.75) construction
  line L211 (-35.25, -15) -> (-35.25, -19) construction
  line L212 (-35.25, -19) -> (-35.25, -23.25) construction
  arc A114 (-22.25, -18.5) -> (-22.75, -19) centre (-22.25, -19) ccw construction
  arc A115 (-22.75, -15) -> (-22.25, -15.5) centre (-22.25, -15) ccw construction
  arc A116 (-35.25, -19) -> (-35.75, -18.5) centre (-35.75, -19) ccw construction
  arc A117 (-17.95, -15) -> (-17.45, -15.5) centre (-17.45, -15) ccw construction
  line L213 (-19.75, -13) -> (-19.75, -15) construction
  line L214 (-20.25, -15.5) -> (-22.25, -15.5) construction
  arc A118 (-20.25, -15.5) -> (-19.75, -15) centre (-20.25, -15) ccw construction
  line L215 (-35.25, -10.75) -> (-35.25, -15) construction
  arc A119 (-35.75, -15.5) -> (-35.25, -15) centre (-35.75, -15) ccw construction
  line L216 (-22.75, -2) -> (-22.75, 2) construction
  line L217 (-22.75, 2) -> (-22.75, 6.25) construction
  line L218 (-35.25, -2) -> (-35.25, -6.25) construction
  line L219 (-35.25, 2) -> (-35.25, -2) construction
  line L220 (-22.75, 15) -> (-22.75, 19) construction
  line L221 (-22.75, 19) -> (-22.75, 23.25) construction
  line L222 (-35.25, 19) -> (-35.25, 15) construction
  line L223 (-35.25, 15) -> (-35.25, 10.75) construction
  arc A120 (-22.25, -1.5) -> (-22.75, -2) centre (-22.25, -2) ccw construction
  arc A121 (-22.75, 2) -> (-22.25, 1.5) centre (-22.25, 2) ccw construction
  arc A122 (-35.25, -2) -> (-35.75, -1.5) centre (-35.75, -2) ccw construction
  arc A123 (-35.75, 1.5) -> (-35.25, 2) centre (-35.75, 2) ccw construction
  arc A124 (-22.25, 15.5) -> (-22.75, 15) centre (-22.25, 15) ccw construction
  arc A125 (-22.75, 19) -> (-22.25, 18.5) centre (-22.25, 19) ccw construction
  arc A126 (-35.75, 18.5) -> (-35.25, 19) centre (-35.75, 19) ccw construction
  arc A127 (-35.25, 15) -> (-35.75, 15.5) centre (-35.75, 15) ccw construction
  arc A128 (-17.7197, -25) -> (-17.2197, -25.5) centre (-17.2197, -25) ccw construction
  line L224 (-41.0814, -25.5) -> (-40.7803, -25.5) construction
  line L225 (-40.7803, -25.5) -> (-17.2197, -25.5) construction
  arc A129 (-40.7803, -25.5) -> (-40.2803, -25) centre (-40.7803, -25) ccw construction
  arc A130 (-17.2197, 25.5) -> (-17.7197, 25) centre (-17.2197, 25) ccw construction
  line L226 (-41.0814, 25.5) -> (-40.8074, 25.5) construction
  line L227 (-40.8074, 25.5) -> (-17.2197, 25.5) construction
  arc A131 (-40.3074, 25) -> (-40.8074, 25.5) centre (-40.8074, 25) ccw construction
  arc A132 (-17.7197, 24.0788) -> (-17.6941, 23.9209) centre (-17.2197, 24.0788) ccw construction
  arc A133 (-40.336, 23.8333) -> (-40.3074, 24) centre (-40.8074, 24) ccw construction
  line L228 (-23.25, 25.25) -> (-34.75, 25.25)
  line L229 (-37.25, 22.75) -> (-37.25, -22.75)
  line L230 (-34.75, -25.25) -> (-23.25, -25.25)
  line L231 (-20.75, -22.75) -> (-20.75, 22.75)
  line L232 (-20.75, 25.25) -> (-37.25, -25.25) construction
  line L233 (-37.25, 25.25) -> (-20.75, -25.25) construction
  arc A134 (-23.25, -25.25) -> (-20.75, -22.75) centre (-23.25, -22.75) ccw
  arc A135 (-37.25, -22.75) -> (-34.75, -25.25) centre (-34.75, -22.75) ccw
  arc A136 (-20.75, 22.75) -> (-23.25, 25.25) centre (-23.25, 22.75) ccw
  arc A137 (-34.75, 25.25) -> (-37.25, 22.75) centre (-34.75, 22.75) ccw
  line L234 (67, 32) -> (-67, 32)
  line L235 (-72, 27) -> (-72, -27)
  line L236 (-67, -32) -> (67, -32)
  line L237 (72, -27) -> (72, 27)
  line L238 (72, 32) -> (-72, -32) construction
  line L239 (-72, 32) -> (72, -32) construction
  arc A138 (67, -32) -> (72, -27) centre (67, -27) ccw
  arc A139 (-72, -27) -> (-67, -32) centre (-67, -27) ccw
  arc A140 (-67, 32) -> (-72, 27) centre (-67, 27) ccw
  arc A141 (72, 27) -> (67, 32) centre (67, 27) ccw
  line L240 (26.3397, -21.5) -> (-2.6603, -21.5)
  line L241 (-2.6603, -21.5) -> (-2.6603, 21.5)
  line L242 (-2.6603, 21.5) -> (26.3397, 21.5)
  line L243 (26.3397, 21.5) -> (26.3397, -21.5)
  line L244 (26.3397, -21.5) -> (-2.6603, 21.5) construction
  line L245 (-2.6603, -21.5) -> (26.3397, 21.5) construction
  point P0 (0, 0)
  point P1 (0, 0)
  point P2 (0, 0)
  point P3 (-29, -17)
  point P4 (-29, 0)
  point P5 (-29, 17)
  point P6 (43.5, -8.5)
  point P7 (11.8397, 0)
  point P8 (11.8397, 0)
  dimension "d0" = 150
  dimension "d1" = 70
  dimension "d2" = 5
  dimension "d3" = 2
  dimension "d4" = 2
  dimension "d5" = 5
  dimension "d6" = 4
  dimension "d7" = 4
  dimension "d8" = 5
  dimension "d13" = 7
  dimension "d14" = 17
  dimension "d15" = 17
  dimension "d16" = 17
  dimension "d17" = 6
  dimension "d18" = 6
  dimension "d19" = 5
  dimension "d20" = 1.5
  dimension "d21" = 1.5
  dimension "d22" = 1.5
  dimension "d23" = 17
  dimension "d24" = 17
  dimension "d25" = 2.7
  dimension "d26" = 2.7
  dimension "d27" = 6
  dimension "d28" = 25
  dimension "d29" = 5
  dimension "d30" = 1.8
  dimension "d31" = 8
  dimension "d32" = 5
  dimension "d33" = 5
  dimension "d34" = 12.5
  dimension "d35" = 51
  dimension "d36" = 8
  dimension "d37" = 7
  dimension "d38" = 7
  dimension "d39" = 2
  dimension "d40" = 1.8
  dimension "d41" = 8
  dimension "d42" = 1.8
  dimension "d43" = 2.7
  dimension "d44" = 1.5
  dimension "d45" = 3
  dimension "d46" = 3
  dimension "d47" = 3
  dimension "d48" = 0.5
  dimension "d49" = 68
  dimension "d50" = 5.2
  dimension "d51" = 7
  dimension "d52" = 5.2
  dimension "d53" = 5.2
  dimension "d54" = 1.5
  dimension "d55" = 1.5
  dimension "d56" = 0.5
  dimension "d57" = 0.5
  dimension "d58" = 0.5
  dimension "d59" = 6
  dimension "d60" = 0.5
  dimension "d61" = 12.5
  dimension "d62" = 3
  dimension "d63" = 3
  dimension "d64" = 12.5
  dimension "d65" = 12.5
  dimension "d66" = 0.5
  dimension "d67" = 0.5
extrude "Extrusion1" add sketch "Sketch1" along normal blind 7 contours L0 A0 L1 A1 L2 A3 L3 A2 | L6 A4 L7 A5 L8 A6 L9 A7
extrude "Extrusion2" add sketch "Sketch1" along normal blind 3 contours A8 L15 A11 L14 A10 L13 A9 L12
extrude "Extrusion3" add sketch "Sketch1" along normal blind 2.5 contours A136 L231 A134 L230 A135 L229 A137 L228 | A141 L237 A138 L236 A139 L235 A140 L234 | L240 L241 L242 L243
properties part number "Box2_bottom" material "PPS Plastic"
